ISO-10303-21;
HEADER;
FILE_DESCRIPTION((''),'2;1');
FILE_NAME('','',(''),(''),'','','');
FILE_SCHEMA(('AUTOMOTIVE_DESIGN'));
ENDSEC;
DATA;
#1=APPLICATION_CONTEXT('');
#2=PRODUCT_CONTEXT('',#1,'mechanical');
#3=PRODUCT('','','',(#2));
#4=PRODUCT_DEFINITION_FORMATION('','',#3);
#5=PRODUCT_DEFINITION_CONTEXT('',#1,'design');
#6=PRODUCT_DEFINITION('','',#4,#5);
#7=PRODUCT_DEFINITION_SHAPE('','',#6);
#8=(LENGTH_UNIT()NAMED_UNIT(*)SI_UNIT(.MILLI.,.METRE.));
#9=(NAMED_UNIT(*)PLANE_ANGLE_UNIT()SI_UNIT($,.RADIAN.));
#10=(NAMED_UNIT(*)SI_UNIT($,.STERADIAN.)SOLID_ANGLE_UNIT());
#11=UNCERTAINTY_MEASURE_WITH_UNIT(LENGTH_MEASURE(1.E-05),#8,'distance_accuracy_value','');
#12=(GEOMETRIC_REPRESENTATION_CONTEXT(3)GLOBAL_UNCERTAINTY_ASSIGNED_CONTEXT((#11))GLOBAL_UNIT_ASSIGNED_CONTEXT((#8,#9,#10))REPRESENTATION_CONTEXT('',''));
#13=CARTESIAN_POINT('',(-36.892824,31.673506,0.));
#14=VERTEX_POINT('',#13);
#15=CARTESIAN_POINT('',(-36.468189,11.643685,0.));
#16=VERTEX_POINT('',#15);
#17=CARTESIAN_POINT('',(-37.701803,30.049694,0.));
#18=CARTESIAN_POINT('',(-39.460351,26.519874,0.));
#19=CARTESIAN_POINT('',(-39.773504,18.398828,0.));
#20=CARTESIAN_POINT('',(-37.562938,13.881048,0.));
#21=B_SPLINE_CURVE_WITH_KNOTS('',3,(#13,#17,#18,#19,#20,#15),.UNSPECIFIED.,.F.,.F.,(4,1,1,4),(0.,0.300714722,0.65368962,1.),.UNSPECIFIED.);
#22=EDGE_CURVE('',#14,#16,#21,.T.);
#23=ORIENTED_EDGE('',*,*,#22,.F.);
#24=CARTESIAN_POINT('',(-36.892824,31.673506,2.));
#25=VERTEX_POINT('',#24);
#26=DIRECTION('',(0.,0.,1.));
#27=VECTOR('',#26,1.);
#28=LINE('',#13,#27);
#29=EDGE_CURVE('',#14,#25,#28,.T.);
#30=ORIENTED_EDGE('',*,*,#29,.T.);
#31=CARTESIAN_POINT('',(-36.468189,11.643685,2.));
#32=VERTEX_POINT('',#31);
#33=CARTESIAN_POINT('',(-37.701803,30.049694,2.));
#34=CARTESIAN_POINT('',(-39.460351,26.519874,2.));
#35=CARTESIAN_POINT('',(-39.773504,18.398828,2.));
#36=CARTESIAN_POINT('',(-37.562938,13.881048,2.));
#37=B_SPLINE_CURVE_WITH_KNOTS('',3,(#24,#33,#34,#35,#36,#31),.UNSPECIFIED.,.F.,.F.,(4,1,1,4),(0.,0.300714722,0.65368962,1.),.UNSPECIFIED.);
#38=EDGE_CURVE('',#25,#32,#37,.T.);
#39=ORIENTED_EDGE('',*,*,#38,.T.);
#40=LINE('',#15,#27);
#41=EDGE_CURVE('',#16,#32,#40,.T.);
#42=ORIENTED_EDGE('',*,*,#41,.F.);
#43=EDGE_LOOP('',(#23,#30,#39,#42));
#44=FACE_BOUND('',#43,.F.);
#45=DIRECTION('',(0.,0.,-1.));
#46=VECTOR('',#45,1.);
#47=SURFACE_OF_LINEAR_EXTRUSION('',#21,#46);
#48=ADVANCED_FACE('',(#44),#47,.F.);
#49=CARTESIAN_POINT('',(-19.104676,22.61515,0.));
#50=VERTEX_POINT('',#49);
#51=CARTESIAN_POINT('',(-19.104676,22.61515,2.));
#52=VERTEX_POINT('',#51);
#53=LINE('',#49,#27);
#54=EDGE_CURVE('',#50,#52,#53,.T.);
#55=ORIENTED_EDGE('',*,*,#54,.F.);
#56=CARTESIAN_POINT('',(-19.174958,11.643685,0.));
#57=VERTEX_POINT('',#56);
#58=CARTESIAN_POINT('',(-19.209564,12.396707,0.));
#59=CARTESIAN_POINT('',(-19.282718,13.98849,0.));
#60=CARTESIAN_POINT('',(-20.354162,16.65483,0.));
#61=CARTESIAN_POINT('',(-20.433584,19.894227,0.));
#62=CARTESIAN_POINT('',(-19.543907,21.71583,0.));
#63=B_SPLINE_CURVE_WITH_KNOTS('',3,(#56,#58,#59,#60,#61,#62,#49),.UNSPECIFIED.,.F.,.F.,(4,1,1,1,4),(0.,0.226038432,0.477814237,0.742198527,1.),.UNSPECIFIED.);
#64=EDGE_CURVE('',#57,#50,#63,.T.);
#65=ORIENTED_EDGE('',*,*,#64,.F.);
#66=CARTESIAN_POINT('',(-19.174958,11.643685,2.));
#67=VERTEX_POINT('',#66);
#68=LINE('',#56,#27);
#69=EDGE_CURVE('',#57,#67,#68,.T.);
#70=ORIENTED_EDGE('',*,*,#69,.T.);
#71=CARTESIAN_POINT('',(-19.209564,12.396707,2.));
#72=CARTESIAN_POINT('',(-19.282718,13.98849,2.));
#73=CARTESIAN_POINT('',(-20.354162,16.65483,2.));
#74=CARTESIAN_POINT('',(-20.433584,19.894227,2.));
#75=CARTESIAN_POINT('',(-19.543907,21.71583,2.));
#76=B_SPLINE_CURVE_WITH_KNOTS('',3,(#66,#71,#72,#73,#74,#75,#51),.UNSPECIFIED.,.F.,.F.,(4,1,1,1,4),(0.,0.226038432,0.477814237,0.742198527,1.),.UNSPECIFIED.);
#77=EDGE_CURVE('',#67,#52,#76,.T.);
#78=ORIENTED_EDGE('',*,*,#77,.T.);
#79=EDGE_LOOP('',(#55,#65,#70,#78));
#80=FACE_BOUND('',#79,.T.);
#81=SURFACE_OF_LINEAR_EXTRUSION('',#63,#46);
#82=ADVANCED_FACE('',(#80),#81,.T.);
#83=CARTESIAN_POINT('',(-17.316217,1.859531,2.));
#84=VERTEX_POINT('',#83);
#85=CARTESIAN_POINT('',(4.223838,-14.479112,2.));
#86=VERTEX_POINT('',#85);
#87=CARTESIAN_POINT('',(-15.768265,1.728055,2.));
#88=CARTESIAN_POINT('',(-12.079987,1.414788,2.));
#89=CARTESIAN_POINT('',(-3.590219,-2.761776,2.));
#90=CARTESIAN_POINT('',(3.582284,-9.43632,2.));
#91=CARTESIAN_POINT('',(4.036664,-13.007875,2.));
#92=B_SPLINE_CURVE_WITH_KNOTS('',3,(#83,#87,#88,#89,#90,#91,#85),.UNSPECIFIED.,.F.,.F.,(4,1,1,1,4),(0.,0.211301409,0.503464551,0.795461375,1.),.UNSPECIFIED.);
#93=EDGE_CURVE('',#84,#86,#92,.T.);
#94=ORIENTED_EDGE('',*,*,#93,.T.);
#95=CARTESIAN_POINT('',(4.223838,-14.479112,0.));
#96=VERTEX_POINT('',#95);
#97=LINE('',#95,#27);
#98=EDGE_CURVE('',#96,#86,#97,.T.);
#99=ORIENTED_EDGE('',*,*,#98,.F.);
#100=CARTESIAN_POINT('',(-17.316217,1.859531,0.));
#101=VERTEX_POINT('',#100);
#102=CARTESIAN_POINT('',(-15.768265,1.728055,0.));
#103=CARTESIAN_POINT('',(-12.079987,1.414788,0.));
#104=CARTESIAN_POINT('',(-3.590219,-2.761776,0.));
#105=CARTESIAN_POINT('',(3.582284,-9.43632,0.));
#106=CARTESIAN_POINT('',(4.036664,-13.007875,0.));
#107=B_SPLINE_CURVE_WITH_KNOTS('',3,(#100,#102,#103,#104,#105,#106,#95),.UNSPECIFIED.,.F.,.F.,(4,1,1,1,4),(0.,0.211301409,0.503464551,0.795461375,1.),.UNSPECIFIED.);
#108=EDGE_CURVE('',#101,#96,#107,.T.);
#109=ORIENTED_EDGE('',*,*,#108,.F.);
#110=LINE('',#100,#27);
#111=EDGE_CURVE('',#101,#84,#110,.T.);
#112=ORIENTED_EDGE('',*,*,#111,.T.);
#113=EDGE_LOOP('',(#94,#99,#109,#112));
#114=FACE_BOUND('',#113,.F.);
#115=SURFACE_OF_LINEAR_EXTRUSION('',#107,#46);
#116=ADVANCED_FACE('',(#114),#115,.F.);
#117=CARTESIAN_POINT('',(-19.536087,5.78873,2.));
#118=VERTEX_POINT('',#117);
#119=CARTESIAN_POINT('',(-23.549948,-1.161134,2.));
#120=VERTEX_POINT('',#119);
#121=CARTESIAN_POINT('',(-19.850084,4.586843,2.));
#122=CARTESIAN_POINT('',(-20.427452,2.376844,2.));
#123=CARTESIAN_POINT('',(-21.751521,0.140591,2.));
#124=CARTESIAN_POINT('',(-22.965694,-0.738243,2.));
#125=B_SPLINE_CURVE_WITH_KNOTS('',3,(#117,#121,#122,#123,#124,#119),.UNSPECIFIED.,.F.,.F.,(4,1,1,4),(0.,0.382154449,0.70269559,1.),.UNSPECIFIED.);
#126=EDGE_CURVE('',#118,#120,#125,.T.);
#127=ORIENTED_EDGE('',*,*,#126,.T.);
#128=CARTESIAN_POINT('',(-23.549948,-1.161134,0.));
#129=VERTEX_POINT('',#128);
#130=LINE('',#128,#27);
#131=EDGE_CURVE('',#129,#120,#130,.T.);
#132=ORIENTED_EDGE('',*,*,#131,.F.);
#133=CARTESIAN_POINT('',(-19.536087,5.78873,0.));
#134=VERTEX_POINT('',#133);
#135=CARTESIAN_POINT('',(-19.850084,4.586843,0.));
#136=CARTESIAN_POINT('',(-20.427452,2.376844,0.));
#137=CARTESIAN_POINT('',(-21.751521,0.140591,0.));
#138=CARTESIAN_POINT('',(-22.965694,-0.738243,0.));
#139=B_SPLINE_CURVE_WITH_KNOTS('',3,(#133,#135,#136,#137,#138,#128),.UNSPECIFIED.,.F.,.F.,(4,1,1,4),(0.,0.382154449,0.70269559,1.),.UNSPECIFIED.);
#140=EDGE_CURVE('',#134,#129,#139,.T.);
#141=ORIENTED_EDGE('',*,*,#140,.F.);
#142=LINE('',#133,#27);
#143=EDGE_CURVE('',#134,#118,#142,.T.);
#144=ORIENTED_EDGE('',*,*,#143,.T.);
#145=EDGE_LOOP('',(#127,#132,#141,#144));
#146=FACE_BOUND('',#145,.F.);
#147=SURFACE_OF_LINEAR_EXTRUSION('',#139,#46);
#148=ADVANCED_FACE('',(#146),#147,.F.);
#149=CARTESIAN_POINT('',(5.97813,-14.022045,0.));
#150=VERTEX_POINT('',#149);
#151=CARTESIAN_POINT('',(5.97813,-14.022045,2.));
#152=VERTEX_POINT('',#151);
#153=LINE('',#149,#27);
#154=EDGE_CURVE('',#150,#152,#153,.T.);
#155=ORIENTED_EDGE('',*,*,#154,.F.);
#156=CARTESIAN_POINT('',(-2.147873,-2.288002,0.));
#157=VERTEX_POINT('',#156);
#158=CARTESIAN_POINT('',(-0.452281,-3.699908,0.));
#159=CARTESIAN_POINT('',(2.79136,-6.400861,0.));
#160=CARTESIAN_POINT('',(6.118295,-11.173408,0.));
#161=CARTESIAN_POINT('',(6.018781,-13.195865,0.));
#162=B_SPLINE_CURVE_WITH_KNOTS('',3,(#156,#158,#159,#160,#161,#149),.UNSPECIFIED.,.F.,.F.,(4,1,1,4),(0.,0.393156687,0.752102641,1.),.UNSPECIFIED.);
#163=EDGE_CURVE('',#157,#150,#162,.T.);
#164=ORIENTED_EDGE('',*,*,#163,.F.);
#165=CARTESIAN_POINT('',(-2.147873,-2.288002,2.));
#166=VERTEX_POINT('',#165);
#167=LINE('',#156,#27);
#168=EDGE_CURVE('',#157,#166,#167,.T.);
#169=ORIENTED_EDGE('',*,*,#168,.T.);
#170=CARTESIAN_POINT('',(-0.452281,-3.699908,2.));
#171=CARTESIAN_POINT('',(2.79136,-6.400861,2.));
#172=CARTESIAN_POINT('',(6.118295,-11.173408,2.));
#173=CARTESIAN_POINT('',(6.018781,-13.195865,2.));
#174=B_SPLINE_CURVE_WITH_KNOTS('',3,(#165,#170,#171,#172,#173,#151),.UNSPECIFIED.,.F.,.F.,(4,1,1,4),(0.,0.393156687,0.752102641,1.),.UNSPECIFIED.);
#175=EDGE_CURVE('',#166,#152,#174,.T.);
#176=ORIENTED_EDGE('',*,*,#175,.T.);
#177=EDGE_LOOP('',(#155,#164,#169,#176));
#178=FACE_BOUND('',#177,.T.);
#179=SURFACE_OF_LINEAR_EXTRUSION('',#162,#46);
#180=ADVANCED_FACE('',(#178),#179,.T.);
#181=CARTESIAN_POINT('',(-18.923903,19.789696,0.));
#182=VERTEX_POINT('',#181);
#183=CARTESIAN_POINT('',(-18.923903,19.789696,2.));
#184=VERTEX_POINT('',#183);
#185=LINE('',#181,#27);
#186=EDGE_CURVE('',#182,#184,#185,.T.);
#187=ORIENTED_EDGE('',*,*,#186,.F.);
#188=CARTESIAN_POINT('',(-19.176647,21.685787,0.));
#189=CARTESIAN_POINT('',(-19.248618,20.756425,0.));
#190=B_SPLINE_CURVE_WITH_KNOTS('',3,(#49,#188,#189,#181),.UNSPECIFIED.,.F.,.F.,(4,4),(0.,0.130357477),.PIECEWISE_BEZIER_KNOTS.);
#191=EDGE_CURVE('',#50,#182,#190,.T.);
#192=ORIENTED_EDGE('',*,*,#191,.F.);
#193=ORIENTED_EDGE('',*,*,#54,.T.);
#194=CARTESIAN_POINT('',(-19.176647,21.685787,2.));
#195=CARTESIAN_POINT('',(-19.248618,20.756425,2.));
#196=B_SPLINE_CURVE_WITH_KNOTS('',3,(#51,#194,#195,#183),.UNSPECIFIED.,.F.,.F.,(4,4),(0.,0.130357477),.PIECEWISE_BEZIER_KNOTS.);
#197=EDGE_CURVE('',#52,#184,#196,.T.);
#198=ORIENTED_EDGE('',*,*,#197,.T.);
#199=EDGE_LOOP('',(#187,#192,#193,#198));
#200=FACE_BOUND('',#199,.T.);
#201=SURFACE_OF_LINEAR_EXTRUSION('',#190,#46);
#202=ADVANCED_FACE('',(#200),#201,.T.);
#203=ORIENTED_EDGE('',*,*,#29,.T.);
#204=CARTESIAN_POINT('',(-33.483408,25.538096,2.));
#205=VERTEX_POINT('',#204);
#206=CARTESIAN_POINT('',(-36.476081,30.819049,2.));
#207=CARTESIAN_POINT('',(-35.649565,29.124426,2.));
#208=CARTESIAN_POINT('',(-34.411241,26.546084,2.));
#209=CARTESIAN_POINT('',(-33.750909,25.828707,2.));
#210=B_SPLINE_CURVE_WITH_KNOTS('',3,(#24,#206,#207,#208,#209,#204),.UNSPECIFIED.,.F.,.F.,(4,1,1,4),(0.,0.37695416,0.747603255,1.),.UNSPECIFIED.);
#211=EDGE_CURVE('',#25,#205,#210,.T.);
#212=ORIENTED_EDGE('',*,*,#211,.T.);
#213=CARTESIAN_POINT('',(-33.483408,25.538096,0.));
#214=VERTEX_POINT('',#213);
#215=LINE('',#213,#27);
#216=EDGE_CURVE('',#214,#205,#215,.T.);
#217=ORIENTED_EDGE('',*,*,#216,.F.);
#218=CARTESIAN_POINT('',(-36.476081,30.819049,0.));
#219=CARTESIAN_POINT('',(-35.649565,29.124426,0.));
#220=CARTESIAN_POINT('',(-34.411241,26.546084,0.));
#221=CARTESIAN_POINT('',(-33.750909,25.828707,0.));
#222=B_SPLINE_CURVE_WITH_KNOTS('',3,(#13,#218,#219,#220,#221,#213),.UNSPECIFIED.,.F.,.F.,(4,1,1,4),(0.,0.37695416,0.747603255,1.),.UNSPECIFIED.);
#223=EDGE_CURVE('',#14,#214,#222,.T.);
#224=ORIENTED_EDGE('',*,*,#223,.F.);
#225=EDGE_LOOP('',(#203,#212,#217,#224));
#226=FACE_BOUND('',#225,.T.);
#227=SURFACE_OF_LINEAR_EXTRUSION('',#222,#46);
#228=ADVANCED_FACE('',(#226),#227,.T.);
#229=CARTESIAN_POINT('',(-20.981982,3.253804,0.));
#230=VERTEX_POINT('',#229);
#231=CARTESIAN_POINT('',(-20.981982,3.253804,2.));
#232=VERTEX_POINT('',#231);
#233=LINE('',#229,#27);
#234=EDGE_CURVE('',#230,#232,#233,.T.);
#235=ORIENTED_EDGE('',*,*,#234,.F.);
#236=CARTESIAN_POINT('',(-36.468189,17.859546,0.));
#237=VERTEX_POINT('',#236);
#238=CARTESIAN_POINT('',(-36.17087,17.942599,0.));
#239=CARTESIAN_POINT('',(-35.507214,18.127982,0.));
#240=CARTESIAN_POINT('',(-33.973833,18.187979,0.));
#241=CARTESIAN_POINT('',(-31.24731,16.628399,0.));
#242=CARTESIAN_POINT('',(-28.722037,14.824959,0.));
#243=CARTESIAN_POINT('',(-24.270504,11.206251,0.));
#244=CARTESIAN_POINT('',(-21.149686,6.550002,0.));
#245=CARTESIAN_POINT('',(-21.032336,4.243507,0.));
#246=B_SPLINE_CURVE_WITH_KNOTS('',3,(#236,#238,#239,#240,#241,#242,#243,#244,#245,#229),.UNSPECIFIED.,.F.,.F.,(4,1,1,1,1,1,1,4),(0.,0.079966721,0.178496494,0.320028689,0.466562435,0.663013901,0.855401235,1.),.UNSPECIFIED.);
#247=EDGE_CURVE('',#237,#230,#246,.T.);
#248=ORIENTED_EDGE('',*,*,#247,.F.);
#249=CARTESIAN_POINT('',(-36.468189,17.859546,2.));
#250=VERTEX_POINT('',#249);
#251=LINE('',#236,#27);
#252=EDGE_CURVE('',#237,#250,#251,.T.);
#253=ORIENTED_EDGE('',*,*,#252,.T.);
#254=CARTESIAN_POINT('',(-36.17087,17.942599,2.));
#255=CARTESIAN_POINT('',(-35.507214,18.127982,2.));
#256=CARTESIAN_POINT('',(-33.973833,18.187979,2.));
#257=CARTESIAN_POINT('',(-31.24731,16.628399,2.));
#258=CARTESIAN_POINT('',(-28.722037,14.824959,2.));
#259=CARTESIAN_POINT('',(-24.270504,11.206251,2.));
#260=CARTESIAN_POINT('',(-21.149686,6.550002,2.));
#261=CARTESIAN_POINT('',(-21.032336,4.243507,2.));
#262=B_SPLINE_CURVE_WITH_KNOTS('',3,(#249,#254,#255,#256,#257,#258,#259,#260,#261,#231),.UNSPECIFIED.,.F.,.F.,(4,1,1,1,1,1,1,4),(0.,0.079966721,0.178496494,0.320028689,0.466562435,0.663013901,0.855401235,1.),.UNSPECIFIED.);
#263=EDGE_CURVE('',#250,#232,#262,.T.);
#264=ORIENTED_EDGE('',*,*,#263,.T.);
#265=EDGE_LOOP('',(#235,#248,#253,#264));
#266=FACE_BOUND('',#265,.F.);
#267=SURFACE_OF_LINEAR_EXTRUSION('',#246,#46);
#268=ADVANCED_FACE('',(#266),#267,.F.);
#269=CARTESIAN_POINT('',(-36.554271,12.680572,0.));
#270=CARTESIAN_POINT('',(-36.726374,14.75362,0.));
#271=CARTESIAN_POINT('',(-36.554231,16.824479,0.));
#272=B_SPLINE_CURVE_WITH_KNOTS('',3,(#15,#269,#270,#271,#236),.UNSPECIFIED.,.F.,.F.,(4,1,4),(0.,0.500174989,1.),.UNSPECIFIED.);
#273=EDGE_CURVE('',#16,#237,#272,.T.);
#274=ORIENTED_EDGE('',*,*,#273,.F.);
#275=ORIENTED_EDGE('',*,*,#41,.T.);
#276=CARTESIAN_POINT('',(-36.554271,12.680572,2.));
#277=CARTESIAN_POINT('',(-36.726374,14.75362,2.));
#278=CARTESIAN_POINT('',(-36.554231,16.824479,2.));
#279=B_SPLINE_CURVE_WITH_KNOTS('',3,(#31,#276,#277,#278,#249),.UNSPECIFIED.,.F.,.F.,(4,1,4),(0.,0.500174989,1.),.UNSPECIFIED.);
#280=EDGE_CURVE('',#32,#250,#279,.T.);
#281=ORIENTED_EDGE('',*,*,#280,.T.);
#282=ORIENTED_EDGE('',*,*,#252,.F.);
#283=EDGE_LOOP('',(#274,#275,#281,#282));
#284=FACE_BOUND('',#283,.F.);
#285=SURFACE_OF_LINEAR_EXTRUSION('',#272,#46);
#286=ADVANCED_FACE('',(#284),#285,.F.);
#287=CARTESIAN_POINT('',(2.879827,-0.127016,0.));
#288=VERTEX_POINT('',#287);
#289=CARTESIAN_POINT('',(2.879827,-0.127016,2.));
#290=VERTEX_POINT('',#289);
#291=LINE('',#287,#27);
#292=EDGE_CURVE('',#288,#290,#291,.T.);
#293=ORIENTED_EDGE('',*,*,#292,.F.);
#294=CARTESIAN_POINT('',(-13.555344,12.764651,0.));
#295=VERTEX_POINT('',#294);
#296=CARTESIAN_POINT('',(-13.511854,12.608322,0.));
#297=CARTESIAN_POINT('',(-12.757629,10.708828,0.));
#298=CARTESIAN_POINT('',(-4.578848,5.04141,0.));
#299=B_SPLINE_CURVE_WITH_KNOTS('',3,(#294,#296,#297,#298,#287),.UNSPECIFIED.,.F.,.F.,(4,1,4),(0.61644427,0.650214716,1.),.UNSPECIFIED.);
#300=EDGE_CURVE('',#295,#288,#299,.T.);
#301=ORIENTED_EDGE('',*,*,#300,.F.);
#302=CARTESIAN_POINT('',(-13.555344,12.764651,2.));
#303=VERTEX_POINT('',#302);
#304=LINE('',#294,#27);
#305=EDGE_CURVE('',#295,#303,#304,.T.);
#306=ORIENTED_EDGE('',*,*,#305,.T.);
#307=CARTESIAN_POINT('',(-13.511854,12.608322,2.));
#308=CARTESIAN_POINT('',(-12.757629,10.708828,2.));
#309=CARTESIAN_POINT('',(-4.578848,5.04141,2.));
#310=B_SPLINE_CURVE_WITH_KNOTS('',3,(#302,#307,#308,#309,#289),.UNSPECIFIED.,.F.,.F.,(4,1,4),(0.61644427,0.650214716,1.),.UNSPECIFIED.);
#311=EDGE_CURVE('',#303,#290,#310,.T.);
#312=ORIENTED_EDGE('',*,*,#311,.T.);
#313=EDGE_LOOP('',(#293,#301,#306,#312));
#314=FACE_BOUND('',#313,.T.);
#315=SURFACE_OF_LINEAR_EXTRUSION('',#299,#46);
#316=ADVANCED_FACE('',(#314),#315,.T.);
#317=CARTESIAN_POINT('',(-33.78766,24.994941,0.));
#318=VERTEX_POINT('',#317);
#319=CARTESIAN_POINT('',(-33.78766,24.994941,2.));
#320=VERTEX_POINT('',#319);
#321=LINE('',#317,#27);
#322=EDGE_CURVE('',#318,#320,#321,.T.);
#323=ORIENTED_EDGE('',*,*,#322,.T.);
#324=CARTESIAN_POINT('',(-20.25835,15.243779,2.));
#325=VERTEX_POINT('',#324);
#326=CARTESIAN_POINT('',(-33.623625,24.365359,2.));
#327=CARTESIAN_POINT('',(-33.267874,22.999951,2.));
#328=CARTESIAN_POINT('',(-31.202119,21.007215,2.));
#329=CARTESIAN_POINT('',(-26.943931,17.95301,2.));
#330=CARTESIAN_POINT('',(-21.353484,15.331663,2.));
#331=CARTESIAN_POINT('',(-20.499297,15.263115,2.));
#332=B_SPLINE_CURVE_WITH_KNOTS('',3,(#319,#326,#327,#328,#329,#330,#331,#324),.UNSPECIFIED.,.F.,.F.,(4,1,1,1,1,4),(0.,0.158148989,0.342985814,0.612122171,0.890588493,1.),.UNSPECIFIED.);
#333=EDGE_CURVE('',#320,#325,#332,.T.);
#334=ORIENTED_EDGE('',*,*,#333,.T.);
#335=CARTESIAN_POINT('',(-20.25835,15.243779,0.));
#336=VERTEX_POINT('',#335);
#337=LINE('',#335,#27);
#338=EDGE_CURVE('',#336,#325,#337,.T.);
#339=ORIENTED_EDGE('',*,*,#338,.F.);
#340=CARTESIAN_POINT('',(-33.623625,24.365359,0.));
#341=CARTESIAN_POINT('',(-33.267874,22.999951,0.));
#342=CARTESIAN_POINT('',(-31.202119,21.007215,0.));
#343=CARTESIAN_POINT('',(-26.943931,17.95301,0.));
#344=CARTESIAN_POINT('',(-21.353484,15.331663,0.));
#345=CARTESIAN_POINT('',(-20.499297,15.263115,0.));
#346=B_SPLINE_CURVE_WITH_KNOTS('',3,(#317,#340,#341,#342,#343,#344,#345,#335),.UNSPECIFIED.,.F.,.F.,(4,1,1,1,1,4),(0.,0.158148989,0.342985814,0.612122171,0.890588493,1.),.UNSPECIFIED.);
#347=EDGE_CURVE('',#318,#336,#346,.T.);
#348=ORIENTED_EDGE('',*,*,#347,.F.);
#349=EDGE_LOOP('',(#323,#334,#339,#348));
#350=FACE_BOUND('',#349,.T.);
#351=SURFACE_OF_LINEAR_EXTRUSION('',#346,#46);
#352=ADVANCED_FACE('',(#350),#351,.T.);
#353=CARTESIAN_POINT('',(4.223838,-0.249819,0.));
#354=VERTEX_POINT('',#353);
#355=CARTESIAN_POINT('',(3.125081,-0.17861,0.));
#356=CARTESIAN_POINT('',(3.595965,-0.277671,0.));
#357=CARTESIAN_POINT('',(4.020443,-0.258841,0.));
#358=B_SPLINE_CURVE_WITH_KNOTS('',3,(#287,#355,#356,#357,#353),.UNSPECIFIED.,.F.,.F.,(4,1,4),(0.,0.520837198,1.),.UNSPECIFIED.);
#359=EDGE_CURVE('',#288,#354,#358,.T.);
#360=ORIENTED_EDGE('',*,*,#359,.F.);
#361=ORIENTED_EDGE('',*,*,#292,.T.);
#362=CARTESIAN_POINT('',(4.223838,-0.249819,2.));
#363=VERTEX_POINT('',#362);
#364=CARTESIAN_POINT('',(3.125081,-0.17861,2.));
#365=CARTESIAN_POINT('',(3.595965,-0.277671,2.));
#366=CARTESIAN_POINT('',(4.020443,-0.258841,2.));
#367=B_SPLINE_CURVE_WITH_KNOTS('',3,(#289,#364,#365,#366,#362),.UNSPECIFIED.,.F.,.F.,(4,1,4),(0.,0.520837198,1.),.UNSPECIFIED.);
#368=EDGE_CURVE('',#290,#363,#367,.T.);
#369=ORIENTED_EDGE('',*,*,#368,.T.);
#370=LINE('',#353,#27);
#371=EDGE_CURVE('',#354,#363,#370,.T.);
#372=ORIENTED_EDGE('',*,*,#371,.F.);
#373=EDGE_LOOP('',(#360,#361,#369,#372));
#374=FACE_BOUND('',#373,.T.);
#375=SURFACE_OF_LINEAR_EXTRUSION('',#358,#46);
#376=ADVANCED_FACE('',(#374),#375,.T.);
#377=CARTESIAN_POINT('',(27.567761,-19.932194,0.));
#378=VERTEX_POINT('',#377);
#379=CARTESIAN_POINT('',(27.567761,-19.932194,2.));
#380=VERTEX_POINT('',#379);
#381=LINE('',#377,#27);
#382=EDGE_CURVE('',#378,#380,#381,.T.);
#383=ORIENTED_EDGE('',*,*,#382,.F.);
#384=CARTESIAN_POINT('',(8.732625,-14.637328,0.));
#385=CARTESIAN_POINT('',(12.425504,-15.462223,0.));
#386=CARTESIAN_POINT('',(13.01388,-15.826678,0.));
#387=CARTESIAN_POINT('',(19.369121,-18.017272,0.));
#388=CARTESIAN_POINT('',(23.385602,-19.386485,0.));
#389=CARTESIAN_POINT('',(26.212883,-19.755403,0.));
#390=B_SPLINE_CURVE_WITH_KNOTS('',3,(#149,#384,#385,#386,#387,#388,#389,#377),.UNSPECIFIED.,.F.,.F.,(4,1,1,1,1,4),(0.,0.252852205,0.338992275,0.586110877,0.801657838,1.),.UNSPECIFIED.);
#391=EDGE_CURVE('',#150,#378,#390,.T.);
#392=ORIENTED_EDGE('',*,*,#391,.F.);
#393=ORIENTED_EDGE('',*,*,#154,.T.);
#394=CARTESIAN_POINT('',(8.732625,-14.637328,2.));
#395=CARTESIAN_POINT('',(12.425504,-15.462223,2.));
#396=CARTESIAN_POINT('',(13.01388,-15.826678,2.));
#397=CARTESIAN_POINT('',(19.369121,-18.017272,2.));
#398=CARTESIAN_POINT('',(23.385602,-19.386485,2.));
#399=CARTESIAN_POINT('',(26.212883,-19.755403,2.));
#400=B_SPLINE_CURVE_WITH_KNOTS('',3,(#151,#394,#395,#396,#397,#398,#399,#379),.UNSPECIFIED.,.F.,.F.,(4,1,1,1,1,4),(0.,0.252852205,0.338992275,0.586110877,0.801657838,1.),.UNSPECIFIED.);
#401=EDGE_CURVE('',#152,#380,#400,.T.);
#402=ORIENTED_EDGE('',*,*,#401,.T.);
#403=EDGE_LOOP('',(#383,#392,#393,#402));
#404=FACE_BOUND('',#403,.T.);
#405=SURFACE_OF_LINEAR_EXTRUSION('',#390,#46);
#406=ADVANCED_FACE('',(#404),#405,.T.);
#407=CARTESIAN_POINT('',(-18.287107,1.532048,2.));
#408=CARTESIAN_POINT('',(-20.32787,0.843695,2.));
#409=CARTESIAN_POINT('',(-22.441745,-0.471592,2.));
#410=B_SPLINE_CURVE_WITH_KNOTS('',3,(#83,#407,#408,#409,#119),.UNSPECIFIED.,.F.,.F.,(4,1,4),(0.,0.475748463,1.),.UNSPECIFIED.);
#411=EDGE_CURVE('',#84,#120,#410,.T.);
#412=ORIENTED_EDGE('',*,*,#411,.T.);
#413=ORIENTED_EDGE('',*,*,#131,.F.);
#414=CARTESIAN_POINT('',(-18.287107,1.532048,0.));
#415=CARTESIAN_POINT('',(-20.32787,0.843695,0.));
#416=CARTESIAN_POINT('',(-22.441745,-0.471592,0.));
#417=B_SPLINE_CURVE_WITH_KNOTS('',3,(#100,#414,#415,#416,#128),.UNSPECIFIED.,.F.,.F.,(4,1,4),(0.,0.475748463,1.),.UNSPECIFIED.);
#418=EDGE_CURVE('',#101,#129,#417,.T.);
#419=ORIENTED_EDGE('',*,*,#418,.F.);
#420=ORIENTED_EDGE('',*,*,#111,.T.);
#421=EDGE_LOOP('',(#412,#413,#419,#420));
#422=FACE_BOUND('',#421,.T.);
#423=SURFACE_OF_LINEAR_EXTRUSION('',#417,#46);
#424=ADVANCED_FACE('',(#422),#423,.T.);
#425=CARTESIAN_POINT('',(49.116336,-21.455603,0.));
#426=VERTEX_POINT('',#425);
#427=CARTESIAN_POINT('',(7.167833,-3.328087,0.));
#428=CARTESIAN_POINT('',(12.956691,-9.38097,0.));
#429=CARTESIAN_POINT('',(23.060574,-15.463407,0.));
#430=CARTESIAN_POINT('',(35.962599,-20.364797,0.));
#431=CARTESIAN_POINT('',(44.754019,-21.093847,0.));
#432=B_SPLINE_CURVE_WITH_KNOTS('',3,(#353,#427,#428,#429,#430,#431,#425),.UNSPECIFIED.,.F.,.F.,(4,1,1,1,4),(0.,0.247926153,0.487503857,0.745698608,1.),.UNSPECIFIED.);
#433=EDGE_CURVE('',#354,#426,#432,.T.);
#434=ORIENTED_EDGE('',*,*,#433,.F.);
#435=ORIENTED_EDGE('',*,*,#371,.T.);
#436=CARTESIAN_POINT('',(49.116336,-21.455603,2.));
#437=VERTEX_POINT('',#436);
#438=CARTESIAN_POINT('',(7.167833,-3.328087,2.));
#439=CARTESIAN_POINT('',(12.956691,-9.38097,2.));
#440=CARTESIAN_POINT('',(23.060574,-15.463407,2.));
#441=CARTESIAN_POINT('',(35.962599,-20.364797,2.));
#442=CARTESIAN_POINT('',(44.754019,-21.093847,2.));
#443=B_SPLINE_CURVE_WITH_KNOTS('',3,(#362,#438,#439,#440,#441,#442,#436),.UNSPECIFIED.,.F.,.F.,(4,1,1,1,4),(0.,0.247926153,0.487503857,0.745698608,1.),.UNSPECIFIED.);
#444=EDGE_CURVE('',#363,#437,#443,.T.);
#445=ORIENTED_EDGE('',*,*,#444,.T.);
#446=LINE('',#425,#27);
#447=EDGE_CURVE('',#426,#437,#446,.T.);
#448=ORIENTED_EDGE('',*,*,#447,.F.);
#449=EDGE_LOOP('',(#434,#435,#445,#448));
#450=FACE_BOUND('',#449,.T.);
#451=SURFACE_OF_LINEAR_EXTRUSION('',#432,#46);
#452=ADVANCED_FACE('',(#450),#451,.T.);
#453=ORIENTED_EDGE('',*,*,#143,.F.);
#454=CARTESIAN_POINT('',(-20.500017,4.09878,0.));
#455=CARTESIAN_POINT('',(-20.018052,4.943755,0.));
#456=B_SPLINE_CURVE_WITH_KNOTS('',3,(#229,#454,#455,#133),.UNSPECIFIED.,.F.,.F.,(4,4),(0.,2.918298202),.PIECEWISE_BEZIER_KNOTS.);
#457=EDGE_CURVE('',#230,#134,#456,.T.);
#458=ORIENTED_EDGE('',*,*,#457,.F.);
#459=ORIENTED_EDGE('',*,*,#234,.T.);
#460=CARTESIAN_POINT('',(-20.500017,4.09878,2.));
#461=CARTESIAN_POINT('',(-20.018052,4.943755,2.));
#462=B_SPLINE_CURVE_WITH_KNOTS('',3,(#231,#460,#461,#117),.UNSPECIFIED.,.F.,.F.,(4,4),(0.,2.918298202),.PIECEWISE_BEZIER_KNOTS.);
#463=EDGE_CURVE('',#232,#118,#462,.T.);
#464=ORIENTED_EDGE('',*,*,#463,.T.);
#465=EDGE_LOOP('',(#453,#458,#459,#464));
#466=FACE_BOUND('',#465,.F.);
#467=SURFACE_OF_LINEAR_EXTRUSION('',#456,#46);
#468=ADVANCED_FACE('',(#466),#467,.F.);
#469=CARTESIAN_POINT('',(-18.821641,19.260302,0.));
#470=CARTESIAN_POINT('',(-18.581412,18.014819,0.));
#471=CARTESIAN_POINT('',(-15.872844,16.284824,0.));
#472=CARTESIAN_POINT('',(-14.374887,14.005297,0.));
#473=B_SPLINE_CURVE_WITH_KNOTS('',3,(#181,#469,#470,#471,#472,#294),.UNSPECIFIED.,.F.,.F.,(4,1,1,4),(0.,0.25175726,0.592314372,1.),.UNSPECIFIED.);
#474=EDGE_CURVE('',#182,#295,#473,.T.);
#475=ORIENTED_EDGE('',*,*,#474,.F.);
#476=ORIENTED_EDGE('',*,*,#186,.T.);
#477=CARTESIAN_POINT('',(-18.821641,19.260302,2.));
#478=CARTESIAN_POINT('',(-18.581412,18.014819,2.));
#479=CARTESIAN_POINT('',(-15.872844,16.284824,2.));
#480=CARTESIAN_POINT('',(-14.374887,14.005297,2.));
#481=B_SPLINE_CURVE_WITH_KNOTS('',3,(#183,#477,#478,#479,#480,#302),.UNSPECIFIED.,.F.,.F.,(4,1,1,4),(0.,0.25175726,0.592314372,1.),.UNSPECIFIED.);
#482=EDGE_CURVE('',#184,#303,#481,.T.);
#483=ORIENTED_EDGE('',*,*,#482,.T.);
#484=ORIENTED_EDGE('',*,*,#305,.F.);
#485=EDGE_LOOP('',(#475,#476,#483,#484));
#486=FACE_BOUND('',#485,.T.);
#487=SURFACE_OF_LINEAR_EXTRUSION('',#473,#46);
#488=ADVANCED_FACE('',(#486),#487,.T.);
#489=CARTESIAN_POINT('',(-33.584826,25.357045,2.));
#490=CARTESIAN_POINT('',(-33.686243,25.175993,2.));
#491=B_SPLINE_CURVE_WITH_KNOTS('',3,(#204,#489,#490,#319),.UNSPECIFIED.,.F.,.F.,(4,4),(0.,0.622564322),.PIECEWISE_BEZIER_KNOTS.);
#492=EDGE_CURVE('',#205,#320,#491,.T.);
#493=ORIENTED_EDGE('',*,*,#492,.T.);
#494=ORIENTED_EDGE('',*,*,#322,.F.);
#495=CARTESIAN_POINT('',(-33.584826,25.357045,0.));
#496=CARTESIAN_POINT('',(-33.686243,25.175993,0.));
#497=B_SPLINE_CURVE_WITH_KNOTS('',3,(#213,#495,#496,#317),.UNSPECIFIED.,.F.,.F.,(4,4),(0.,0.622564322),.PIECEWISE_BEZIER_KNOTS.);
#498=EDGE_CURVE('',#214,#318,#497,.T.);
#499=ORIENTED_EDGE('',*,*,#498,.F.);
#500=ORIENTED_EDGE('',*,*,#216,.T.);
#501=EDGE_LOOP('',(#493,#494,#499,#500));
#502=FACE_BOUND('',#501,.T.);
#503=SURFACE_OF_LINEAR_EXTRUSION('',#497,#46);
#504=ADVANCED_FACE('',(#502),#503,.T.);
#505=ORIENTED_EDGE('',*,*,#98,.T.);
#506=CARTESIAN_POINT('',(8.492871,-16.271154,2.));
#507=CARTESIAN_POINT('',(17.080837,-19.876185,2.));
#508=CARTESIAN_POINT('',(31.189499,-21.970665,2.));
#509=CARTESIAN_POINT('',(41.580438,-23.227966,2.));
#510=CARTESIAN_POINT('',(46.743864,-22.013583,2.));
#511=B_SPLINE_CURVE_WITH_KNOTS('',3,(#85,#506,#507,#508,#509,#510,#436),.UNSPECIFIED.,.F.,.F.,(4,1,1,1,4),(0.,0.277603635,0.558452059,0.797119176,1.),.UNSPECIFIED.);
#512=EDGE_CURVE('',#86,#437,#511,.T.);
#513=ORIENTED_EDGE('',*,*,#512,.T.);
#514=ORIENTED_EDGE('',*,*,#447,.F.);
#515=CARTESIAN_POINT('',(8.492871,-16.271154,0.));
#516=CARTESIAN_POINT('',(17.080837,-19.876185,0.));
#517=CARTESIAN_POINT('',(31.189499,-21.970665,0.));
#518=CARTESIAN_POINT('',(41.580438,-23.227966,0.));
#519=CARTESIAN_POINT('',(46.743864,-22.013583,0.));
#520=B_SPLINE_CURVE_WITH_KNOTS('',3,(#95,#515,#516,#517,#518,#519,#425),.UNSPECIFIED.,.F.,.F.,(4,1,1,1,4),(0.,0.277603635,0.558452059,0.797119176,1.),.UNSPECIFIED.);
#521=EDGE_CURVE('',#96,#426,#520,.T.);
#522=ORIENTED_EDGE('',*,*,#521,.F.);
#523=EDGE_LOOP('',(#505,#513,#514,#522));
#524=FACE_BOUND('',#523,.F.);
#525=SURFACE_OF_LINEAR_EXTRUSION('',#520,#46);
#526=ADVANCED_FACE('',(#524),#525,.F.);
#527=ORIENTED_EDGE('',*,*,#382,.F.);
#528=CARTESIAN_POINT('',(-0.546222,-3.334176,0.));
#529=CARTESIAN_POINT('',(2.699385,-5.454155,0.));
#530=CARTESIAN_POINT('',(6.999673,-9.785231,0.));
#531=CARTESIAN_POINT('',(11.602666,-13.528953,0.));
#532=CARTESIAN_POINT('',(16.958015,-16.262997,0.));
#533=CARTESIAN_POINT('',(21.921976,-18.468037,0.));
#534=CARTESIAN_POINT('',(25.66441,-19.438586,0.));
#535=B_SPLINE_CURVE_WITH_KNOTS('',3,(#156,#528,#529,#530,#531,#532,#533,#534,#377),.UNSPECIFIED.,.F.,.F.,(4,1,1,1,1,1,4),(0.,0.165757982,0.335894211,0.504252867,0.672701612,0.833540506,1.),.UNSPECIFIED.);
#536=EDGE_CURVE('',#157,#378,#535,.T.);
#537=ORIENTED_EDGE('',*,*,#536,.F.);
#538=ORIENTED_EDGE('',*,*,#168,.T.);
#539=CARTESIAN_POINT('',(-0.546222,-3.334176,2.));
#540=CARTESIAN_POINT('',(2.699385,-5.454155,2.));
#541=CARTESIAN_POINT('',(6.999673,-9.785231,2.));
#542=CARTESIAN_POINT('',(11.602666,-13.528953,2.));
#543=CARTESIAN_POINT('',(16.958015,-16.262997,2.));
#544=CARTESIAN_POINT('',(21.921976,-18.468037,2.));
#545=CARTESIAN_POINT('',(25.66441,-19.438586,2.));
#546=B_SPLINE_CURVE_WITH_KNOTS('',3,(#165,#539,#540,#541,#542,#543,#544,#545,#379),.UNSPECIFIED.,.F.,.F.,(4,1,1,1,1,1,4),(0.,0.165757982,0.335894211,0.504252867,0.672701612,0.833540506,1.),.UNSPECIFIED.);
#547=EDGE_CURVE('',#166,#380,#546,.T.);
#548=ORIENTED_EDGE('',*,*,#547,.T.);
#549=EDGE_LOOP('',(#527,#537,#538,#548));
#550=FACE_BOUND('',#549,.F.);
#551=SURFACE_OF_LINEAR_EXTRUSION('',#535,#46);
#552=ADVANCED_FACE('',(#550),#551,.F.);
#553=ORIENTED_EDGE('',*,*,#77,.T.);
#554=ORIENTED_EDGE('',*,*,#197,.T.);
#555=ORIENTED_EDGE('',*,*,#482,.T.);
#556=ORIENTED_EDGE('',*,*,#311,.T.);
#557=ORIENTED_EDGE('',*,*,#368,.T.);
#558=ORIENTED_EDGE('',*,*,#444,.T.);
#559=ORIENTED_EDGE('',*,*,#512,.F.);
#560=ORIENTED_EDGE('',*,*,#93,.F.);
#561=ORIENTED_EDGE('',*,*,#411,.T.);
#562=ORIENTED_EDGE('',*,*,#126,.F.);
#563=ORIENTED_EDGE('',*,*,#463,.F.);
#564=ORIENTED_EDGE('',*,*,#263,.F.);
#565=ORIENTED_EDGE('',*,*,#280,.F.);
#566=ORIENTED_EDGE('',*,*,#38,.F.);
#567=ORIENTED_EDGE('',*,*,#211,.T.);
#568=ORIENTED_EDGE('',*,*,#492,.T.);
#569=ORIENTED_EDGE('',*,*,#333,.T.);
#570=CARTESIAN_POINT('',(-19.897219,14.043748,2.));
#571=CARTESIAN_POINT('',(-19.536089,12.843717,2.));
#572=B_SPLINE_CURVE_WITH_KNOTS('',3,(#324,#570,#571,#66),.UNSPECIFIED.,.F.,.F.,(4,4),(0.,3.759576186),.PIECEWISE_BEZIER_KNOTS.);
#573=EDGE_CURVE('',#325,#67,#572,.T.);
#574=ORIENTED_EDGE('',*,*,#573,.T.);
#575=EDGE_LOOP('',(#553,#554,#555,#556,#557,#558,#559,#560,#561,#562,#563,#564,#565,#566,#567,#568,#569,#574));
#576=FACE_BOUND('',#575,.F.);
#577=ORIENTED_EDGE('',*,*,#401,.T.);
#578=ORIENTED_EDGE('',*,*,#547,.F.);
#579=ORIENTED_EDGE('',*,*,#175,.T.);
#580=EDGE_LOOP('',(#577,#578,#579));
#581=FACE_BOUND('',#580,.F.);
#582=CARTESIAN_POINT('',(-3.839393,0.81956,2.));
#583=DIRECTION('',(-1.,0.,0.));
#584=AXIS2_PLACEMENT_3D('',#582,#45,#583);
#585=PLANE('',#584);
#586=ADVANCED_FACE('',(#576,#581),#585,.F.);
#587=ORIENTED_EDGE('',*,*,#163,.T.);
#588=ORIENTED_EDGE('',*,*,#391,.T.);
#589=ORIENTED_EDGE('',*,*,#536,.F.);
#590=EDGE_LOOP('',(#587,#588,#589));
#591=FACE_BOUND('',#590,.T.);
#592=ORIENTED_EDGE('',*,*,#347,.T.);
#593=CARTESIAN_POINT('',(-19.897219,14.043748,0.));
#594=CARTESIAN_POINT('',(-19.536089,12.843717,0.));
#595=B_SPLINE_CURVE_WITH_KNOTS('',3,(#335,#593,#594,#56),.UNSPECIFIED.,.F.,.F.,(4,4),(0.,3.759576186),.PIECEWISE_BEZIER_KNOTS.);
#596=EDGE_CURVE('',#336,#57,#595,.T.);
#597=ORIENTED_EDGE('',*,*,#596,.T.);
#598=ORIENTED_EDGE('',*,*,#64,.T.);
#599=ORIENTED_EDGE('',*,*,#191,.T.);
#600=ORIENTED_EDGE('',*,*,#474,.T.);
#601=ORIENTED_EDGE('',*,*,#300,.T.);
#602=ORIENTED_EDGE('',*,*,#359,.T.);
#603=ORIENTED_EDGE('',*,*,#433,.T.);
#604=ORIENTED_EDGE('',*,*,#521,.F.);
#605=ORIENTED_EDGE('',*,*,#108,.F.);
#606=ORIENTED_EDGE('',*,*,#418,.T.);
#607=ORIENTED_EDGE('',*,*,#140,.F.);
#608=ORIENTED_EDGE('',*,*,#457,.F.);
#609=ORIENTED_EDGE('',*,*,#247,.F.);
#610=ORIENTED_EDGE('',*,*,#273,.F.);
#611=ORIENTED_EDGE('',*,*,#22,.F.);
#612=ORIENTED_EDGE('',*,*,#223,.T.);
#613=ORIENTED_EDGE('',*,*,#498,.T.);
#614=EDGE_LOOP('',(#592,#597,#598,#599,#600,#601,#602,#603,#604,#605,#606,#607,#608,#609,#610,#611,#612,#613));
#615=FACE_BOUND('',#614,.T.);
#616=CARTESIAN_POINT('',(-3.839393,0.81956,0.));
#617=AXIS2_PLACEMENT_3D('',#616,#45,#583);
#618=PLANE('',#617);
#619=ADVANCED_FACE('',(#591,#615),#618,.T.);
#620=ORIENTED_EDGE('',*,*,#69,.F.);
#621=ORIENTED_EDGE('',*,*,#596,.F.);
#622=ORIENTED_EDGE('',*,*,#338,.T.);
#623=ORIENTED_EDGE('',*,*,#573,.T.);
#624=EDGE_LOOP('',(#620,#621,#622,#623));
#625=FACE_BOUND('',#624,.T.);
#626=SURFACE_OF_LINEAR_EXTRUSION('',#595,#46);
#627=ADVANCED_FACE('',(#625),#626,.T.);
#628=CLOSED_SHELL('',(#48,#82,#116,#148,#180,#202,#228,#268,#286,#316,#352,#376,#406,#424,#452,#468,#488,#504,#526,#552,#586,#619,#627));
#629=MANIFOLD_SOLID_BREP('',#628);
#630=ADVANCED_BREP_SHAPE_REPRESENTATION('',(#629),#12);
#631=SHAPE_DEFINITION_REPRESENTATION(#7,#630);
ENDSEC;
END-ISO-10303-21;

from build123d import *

# Parameters (mm, degrees)
F1_DEPTH = 2


with BuildPart() as f1:
    # F0 (on Top) → F1 (new body)
    with BuildSketch(Plane.XY):
        with BuildLine():
            add(Edge.make_bspline(
                [(-36.892823875, 31.6735059023), (-36.4760806127, 30.8190486114), (-35.6495646799, 29.1244259772), (-34.4112406826, 26.5460839174), (-33.7509094867, 25.8287067164), (-33.4834083915, 25.5380962044)],
                knots=[0, 0, 0, 0, 0.3769541602, 0.747603255, 1, 1, 1, 1], degree=3))
            add(Edge.make_bspline(
                [(-36.892823875, 31.6735059023), (-37.7018029806, 30.0496942096), (-39.4603508818, 26.5198741879), (-39.7735037577, 18.3988282966), (-37.56293815, 13.8810475091), (-36.4681892097, 11.6436854005)],
                knots=[0, 0, 0, 0, 0.3007147223, 0.6536896195, 1, 1, 1, 1], degree=3))
            add(Edge.make_bspline(
                [(-36.4681892097, 11.6436854005), (-36.554270953, 12.6805721324), (-36.7263742072, 14.7536200744), (-36.5542307934, 16.8244792552), (-36.4681892097, 17.8595464677)],
                knots=[0, 0, 0, 0, 0.5001749892, 1, 1, 1, 1], degree=3))
            add(Edge.make_bspline(
                [(-36.4681892097, 17.8595464677), (-36.1708702835, 17.942598625), (-35.5072143903, 18.1279822275), (-33.9738334279, 18.1879789291), (-31.2473096137, 16.6283992854), (-28.7220369021, 14.8249586571), (-24.270504214, 11.2062513215), (-21.1496860764, 6.5500019062), (-21.0323364073, 4.2435073738), (-20.9819823503, 3.2538040541)],
                knots=[0, 0, 0, 0, 0.0799667213, 0.1784964937, 0.3200286886, 0.4665624345, 0.6630139011, 0.855401235, 1, 1, 1, 1], degree=3))
            add(Edge.make_bspline(
                [(-20.9819823503, 3.2538040541), (-20.5000173301, 4.0987795219), (-20.0180523098, 4.9437549897), (-19.5360872895, 5.7887304574)],
                knots=[0, 0, 0, 0, 2.9182982023, 2.9182982023, 2.9182982023, 2.9182982023], degree=3))
            add(Edge.make_bspline(
                [(-19.5360872895, 5.7887304574), (-19.8500836866, 4.586843161), (-20.4274520359, 2.3768442855), (-21.7515211634, 0.14059123), (-22.9656937007, -0.7382427101), (-23.5499478877, -1.1611335212)],
                knots=[0, 0, 0, 0, 0.3821544491, 0.7026955898, 1, 1, 1, 1], degree=3))
            add(Edge.make_bspline(
                [(-17.3162166029, 1.8595310394), (-18.2871066723, 1.5320481384), (-20.3278701105, 0.843695098), (-22.4417454777, -0.4715921566), (-23.5499478877, -1.1611335212)],
                knots=[0, 0, 0, 0, 0.4757484631, 1, 1, 1, 1], degree=3))
            add(Edge.make_bspline(
                [(-17.3162166029, 1.8595310394), (-15.7682654481, 1.7280546914), (-12.07998653, 1.4147880609), (-3.5902190594, -2.7617762182), (3.5822844795, -9.4363200449), (4.0366641771, -13.0078754651), (4.2238375172, -14.4791118801)],
                knots=[0, 0, 0, 0, 0.2113014094, 0.5034645513, 0.7954613753, 1, 1, 1, 1], degree=3))
            add(Edge.make_bspline(
                [(4.2238375172, -14.4791118801), (8.4928711, -16.271153987), (17.080837153, -19.8761846062), (31.1894987095, -21.9706650529), (41.5804381145, -23.2279662738), (46.7438639151, -22.0135830549), (49.1163358092, -21.4556027204)],
                knots=[0, 0, 0, 0, 0.277603635, 0.5584520589, 0.7971191762, 1, 1, 1, 1], degree=3))
            add(Edge.make_bspline(
                [(4.2238375172, -0.2498186077), (7.1678333192, -3.3280872191), (12.9566913774, -9.3809695107), (23.060574172, -15.4634069035), (35.9625991683, -20.3647968854), (44.7540193116, -21.093846938), (49.1163358092, -21.4556027204)],
                knots=[0, 0, 0, 0, 0.2479261528, 0.4875038567, 0.7456986079, 1, 1, 1, 1], degree=3))
            add(Edge.make_bspline(
                [(2.8798265848, -0.1270156063), (3.1250806645, -0.1786100019), (3.5959650034, -0.2776705066), (4.0204433049, -0.2588410046), (4.2238375172, -0.2498186077)],
                knots=[0, 0, 0, 0, 0.5208371982, 1, 1, 1, 1], degree=3))
            add(Edge.make_bspline(
                [(-13.5553438542, 12.7646509897), (-13.5118544386, 12.6083215107), (-12.7576294229, 10.7088283093), (-4.5788480056, 5.0414103601), (2.8798265848, -0.1270156063)],
                knots=[0.6164442698, 0.6164442698, 0.6164442698, 0.6164442698, 0.6502147162, 1, 1, 1, 1], degree=3))
            add(Edge.make_bspline(
                [(-18.9239028841, 19.7896957397), (-18.8216414365, 19.2603015368), (-18.5814122526, 18.0148186233), (-15.8728443578, 16.2848236323), (-14.37488704, 14.0052965922), (-13.5553438542, 12.7646509897)],
                knots=[0, 0, 0, 0, 0.25175726, 0.5923143721, 1, 1, 1, 1], degree=3))
            add(Edge.make_bspline(
                [(-19.1046763211, 22.6151496172), (-19.1766473117, 21.6857871331), (-19.2486183023, 20.7564246489), (-18.9239028841, 19.7896957397)],
                knots=[0, 0, 0, 0, 0.1303574771, 0.1303574771, 0.1303574771, 0.1303574771], degree=3))
            add(Edge.make_bspline(
                [(-19.1749576479, 11.6436854005), (-19.2095643861, 12.3967065777), (-19.2827182831, 13.9884900451), (-20.3541623487, 16.6548297738), (-20.4335841428, 19.8942270324), (-19.5439070905, 21.7158299648), (-19.1046763211, 22.6151496172)],
                knots=[0, 0, 0, 0, 0.2260384323, 0.4778142374, 0.7421985274, 1, 1, 1, 1], degree=3))
            add(Edge.make_bspline(
                [(-20.2583502978, 15.2437789366), (-19.8972194145, 14.0437477579), (-19.5360885312, 12.8437165792), (-19.1749576479, 11.6436854005)],
                knots=[0, 0, 0, 0, 3.7595761865, 3.7595761865, 3.7595761865, 3.7595761865], degree=3))
            add(Edge.make_bspline(
                [(-33.7876603007, 24.9949414283), (-33.6236251779, 24.3653589146), (-33.2678738045, 22.9999510678), (-31.2021192365, 21.0072148981), (-26.94393059, 17.9530097539), (-21.3534839337, 15.3316633489), (-20.4992969927, 15.2631148952), (-20.2583502978, 15.2437789366)],
                knots=[0, 0, 0, 0, 0.1581489893, 0.342985814, 0.6121221714, 0.8905884926, 1, 1, 1, 1], degree=3))
            add(Edge.make_bspline(
                [(-33.4834083915, 25.5380962044), (-33.5848256946, 25.3570446124), (-33.6862429976, 25.1759930203), (-33.7876603007, 24.9949414283)],
                knots=[0, 0, 0, 0, 0.622564322, 0.622564322, 0.622564322, 0.622564322], degree=3))
        make_face()
        with BuildLine():
            add(Edge.make_bspline(
                [(-2.1478733979, -2.288002288), (-0.4522814448, -3.6999078404), (2.7913596471, -6.4008612505), (6.1182947522, -11.1734082674), (6.0187813393, -13.1958650317), (5.9781298041, -14.0220448375)],
                knots=[0, 0, 0, 0, 0.3931566872, 0.7521026411, 1, 1, 1, 1], degree=3))
            add(Edge.make_bspline(
                [(-2.1478733979, -2.288002288), (-0.5462224835, -3.3341756546), (2.6993845378, -5.454155479), (6.9996734971, -9.7852308012), (11.602665591, -13.528953047), (16.958015429, -16.2629965495), (21.9219759964, -18.468036587), (25.6644100983, -19.4385856638), (27.5677610189, -19.9321936816)],
                knots=[0, 0, 0, 0, 0.1657579821, 0.3358942112, 0.504252867, 0.672701612, 0.8335405057, 1, 1, 1, 1], degree=3))
            add(Edge.make_bspline(
                [(5.9781298041, -14.0220448375), (8.7326251969, -14.6373284967), (12.4255044394, -15.4622230526), (13.0138800096, -15.8266776047), (19.3691208857, -18.0172715029), (23.385602125, -19.3864852085), (26.2128834491, -19.7554026536), (27.5677610189, -19.9321936816)],
                knots=[0, 0, 0, 0, 0.2528522054, 0.3389922754, 0.5861108766, 0.8016578383, 1, 1, 1, 1], degree=3))
        make_face(mode=Mode.SUBTRACT)
    extrude(amount=F1_DEPTH)


solid = f1.part
